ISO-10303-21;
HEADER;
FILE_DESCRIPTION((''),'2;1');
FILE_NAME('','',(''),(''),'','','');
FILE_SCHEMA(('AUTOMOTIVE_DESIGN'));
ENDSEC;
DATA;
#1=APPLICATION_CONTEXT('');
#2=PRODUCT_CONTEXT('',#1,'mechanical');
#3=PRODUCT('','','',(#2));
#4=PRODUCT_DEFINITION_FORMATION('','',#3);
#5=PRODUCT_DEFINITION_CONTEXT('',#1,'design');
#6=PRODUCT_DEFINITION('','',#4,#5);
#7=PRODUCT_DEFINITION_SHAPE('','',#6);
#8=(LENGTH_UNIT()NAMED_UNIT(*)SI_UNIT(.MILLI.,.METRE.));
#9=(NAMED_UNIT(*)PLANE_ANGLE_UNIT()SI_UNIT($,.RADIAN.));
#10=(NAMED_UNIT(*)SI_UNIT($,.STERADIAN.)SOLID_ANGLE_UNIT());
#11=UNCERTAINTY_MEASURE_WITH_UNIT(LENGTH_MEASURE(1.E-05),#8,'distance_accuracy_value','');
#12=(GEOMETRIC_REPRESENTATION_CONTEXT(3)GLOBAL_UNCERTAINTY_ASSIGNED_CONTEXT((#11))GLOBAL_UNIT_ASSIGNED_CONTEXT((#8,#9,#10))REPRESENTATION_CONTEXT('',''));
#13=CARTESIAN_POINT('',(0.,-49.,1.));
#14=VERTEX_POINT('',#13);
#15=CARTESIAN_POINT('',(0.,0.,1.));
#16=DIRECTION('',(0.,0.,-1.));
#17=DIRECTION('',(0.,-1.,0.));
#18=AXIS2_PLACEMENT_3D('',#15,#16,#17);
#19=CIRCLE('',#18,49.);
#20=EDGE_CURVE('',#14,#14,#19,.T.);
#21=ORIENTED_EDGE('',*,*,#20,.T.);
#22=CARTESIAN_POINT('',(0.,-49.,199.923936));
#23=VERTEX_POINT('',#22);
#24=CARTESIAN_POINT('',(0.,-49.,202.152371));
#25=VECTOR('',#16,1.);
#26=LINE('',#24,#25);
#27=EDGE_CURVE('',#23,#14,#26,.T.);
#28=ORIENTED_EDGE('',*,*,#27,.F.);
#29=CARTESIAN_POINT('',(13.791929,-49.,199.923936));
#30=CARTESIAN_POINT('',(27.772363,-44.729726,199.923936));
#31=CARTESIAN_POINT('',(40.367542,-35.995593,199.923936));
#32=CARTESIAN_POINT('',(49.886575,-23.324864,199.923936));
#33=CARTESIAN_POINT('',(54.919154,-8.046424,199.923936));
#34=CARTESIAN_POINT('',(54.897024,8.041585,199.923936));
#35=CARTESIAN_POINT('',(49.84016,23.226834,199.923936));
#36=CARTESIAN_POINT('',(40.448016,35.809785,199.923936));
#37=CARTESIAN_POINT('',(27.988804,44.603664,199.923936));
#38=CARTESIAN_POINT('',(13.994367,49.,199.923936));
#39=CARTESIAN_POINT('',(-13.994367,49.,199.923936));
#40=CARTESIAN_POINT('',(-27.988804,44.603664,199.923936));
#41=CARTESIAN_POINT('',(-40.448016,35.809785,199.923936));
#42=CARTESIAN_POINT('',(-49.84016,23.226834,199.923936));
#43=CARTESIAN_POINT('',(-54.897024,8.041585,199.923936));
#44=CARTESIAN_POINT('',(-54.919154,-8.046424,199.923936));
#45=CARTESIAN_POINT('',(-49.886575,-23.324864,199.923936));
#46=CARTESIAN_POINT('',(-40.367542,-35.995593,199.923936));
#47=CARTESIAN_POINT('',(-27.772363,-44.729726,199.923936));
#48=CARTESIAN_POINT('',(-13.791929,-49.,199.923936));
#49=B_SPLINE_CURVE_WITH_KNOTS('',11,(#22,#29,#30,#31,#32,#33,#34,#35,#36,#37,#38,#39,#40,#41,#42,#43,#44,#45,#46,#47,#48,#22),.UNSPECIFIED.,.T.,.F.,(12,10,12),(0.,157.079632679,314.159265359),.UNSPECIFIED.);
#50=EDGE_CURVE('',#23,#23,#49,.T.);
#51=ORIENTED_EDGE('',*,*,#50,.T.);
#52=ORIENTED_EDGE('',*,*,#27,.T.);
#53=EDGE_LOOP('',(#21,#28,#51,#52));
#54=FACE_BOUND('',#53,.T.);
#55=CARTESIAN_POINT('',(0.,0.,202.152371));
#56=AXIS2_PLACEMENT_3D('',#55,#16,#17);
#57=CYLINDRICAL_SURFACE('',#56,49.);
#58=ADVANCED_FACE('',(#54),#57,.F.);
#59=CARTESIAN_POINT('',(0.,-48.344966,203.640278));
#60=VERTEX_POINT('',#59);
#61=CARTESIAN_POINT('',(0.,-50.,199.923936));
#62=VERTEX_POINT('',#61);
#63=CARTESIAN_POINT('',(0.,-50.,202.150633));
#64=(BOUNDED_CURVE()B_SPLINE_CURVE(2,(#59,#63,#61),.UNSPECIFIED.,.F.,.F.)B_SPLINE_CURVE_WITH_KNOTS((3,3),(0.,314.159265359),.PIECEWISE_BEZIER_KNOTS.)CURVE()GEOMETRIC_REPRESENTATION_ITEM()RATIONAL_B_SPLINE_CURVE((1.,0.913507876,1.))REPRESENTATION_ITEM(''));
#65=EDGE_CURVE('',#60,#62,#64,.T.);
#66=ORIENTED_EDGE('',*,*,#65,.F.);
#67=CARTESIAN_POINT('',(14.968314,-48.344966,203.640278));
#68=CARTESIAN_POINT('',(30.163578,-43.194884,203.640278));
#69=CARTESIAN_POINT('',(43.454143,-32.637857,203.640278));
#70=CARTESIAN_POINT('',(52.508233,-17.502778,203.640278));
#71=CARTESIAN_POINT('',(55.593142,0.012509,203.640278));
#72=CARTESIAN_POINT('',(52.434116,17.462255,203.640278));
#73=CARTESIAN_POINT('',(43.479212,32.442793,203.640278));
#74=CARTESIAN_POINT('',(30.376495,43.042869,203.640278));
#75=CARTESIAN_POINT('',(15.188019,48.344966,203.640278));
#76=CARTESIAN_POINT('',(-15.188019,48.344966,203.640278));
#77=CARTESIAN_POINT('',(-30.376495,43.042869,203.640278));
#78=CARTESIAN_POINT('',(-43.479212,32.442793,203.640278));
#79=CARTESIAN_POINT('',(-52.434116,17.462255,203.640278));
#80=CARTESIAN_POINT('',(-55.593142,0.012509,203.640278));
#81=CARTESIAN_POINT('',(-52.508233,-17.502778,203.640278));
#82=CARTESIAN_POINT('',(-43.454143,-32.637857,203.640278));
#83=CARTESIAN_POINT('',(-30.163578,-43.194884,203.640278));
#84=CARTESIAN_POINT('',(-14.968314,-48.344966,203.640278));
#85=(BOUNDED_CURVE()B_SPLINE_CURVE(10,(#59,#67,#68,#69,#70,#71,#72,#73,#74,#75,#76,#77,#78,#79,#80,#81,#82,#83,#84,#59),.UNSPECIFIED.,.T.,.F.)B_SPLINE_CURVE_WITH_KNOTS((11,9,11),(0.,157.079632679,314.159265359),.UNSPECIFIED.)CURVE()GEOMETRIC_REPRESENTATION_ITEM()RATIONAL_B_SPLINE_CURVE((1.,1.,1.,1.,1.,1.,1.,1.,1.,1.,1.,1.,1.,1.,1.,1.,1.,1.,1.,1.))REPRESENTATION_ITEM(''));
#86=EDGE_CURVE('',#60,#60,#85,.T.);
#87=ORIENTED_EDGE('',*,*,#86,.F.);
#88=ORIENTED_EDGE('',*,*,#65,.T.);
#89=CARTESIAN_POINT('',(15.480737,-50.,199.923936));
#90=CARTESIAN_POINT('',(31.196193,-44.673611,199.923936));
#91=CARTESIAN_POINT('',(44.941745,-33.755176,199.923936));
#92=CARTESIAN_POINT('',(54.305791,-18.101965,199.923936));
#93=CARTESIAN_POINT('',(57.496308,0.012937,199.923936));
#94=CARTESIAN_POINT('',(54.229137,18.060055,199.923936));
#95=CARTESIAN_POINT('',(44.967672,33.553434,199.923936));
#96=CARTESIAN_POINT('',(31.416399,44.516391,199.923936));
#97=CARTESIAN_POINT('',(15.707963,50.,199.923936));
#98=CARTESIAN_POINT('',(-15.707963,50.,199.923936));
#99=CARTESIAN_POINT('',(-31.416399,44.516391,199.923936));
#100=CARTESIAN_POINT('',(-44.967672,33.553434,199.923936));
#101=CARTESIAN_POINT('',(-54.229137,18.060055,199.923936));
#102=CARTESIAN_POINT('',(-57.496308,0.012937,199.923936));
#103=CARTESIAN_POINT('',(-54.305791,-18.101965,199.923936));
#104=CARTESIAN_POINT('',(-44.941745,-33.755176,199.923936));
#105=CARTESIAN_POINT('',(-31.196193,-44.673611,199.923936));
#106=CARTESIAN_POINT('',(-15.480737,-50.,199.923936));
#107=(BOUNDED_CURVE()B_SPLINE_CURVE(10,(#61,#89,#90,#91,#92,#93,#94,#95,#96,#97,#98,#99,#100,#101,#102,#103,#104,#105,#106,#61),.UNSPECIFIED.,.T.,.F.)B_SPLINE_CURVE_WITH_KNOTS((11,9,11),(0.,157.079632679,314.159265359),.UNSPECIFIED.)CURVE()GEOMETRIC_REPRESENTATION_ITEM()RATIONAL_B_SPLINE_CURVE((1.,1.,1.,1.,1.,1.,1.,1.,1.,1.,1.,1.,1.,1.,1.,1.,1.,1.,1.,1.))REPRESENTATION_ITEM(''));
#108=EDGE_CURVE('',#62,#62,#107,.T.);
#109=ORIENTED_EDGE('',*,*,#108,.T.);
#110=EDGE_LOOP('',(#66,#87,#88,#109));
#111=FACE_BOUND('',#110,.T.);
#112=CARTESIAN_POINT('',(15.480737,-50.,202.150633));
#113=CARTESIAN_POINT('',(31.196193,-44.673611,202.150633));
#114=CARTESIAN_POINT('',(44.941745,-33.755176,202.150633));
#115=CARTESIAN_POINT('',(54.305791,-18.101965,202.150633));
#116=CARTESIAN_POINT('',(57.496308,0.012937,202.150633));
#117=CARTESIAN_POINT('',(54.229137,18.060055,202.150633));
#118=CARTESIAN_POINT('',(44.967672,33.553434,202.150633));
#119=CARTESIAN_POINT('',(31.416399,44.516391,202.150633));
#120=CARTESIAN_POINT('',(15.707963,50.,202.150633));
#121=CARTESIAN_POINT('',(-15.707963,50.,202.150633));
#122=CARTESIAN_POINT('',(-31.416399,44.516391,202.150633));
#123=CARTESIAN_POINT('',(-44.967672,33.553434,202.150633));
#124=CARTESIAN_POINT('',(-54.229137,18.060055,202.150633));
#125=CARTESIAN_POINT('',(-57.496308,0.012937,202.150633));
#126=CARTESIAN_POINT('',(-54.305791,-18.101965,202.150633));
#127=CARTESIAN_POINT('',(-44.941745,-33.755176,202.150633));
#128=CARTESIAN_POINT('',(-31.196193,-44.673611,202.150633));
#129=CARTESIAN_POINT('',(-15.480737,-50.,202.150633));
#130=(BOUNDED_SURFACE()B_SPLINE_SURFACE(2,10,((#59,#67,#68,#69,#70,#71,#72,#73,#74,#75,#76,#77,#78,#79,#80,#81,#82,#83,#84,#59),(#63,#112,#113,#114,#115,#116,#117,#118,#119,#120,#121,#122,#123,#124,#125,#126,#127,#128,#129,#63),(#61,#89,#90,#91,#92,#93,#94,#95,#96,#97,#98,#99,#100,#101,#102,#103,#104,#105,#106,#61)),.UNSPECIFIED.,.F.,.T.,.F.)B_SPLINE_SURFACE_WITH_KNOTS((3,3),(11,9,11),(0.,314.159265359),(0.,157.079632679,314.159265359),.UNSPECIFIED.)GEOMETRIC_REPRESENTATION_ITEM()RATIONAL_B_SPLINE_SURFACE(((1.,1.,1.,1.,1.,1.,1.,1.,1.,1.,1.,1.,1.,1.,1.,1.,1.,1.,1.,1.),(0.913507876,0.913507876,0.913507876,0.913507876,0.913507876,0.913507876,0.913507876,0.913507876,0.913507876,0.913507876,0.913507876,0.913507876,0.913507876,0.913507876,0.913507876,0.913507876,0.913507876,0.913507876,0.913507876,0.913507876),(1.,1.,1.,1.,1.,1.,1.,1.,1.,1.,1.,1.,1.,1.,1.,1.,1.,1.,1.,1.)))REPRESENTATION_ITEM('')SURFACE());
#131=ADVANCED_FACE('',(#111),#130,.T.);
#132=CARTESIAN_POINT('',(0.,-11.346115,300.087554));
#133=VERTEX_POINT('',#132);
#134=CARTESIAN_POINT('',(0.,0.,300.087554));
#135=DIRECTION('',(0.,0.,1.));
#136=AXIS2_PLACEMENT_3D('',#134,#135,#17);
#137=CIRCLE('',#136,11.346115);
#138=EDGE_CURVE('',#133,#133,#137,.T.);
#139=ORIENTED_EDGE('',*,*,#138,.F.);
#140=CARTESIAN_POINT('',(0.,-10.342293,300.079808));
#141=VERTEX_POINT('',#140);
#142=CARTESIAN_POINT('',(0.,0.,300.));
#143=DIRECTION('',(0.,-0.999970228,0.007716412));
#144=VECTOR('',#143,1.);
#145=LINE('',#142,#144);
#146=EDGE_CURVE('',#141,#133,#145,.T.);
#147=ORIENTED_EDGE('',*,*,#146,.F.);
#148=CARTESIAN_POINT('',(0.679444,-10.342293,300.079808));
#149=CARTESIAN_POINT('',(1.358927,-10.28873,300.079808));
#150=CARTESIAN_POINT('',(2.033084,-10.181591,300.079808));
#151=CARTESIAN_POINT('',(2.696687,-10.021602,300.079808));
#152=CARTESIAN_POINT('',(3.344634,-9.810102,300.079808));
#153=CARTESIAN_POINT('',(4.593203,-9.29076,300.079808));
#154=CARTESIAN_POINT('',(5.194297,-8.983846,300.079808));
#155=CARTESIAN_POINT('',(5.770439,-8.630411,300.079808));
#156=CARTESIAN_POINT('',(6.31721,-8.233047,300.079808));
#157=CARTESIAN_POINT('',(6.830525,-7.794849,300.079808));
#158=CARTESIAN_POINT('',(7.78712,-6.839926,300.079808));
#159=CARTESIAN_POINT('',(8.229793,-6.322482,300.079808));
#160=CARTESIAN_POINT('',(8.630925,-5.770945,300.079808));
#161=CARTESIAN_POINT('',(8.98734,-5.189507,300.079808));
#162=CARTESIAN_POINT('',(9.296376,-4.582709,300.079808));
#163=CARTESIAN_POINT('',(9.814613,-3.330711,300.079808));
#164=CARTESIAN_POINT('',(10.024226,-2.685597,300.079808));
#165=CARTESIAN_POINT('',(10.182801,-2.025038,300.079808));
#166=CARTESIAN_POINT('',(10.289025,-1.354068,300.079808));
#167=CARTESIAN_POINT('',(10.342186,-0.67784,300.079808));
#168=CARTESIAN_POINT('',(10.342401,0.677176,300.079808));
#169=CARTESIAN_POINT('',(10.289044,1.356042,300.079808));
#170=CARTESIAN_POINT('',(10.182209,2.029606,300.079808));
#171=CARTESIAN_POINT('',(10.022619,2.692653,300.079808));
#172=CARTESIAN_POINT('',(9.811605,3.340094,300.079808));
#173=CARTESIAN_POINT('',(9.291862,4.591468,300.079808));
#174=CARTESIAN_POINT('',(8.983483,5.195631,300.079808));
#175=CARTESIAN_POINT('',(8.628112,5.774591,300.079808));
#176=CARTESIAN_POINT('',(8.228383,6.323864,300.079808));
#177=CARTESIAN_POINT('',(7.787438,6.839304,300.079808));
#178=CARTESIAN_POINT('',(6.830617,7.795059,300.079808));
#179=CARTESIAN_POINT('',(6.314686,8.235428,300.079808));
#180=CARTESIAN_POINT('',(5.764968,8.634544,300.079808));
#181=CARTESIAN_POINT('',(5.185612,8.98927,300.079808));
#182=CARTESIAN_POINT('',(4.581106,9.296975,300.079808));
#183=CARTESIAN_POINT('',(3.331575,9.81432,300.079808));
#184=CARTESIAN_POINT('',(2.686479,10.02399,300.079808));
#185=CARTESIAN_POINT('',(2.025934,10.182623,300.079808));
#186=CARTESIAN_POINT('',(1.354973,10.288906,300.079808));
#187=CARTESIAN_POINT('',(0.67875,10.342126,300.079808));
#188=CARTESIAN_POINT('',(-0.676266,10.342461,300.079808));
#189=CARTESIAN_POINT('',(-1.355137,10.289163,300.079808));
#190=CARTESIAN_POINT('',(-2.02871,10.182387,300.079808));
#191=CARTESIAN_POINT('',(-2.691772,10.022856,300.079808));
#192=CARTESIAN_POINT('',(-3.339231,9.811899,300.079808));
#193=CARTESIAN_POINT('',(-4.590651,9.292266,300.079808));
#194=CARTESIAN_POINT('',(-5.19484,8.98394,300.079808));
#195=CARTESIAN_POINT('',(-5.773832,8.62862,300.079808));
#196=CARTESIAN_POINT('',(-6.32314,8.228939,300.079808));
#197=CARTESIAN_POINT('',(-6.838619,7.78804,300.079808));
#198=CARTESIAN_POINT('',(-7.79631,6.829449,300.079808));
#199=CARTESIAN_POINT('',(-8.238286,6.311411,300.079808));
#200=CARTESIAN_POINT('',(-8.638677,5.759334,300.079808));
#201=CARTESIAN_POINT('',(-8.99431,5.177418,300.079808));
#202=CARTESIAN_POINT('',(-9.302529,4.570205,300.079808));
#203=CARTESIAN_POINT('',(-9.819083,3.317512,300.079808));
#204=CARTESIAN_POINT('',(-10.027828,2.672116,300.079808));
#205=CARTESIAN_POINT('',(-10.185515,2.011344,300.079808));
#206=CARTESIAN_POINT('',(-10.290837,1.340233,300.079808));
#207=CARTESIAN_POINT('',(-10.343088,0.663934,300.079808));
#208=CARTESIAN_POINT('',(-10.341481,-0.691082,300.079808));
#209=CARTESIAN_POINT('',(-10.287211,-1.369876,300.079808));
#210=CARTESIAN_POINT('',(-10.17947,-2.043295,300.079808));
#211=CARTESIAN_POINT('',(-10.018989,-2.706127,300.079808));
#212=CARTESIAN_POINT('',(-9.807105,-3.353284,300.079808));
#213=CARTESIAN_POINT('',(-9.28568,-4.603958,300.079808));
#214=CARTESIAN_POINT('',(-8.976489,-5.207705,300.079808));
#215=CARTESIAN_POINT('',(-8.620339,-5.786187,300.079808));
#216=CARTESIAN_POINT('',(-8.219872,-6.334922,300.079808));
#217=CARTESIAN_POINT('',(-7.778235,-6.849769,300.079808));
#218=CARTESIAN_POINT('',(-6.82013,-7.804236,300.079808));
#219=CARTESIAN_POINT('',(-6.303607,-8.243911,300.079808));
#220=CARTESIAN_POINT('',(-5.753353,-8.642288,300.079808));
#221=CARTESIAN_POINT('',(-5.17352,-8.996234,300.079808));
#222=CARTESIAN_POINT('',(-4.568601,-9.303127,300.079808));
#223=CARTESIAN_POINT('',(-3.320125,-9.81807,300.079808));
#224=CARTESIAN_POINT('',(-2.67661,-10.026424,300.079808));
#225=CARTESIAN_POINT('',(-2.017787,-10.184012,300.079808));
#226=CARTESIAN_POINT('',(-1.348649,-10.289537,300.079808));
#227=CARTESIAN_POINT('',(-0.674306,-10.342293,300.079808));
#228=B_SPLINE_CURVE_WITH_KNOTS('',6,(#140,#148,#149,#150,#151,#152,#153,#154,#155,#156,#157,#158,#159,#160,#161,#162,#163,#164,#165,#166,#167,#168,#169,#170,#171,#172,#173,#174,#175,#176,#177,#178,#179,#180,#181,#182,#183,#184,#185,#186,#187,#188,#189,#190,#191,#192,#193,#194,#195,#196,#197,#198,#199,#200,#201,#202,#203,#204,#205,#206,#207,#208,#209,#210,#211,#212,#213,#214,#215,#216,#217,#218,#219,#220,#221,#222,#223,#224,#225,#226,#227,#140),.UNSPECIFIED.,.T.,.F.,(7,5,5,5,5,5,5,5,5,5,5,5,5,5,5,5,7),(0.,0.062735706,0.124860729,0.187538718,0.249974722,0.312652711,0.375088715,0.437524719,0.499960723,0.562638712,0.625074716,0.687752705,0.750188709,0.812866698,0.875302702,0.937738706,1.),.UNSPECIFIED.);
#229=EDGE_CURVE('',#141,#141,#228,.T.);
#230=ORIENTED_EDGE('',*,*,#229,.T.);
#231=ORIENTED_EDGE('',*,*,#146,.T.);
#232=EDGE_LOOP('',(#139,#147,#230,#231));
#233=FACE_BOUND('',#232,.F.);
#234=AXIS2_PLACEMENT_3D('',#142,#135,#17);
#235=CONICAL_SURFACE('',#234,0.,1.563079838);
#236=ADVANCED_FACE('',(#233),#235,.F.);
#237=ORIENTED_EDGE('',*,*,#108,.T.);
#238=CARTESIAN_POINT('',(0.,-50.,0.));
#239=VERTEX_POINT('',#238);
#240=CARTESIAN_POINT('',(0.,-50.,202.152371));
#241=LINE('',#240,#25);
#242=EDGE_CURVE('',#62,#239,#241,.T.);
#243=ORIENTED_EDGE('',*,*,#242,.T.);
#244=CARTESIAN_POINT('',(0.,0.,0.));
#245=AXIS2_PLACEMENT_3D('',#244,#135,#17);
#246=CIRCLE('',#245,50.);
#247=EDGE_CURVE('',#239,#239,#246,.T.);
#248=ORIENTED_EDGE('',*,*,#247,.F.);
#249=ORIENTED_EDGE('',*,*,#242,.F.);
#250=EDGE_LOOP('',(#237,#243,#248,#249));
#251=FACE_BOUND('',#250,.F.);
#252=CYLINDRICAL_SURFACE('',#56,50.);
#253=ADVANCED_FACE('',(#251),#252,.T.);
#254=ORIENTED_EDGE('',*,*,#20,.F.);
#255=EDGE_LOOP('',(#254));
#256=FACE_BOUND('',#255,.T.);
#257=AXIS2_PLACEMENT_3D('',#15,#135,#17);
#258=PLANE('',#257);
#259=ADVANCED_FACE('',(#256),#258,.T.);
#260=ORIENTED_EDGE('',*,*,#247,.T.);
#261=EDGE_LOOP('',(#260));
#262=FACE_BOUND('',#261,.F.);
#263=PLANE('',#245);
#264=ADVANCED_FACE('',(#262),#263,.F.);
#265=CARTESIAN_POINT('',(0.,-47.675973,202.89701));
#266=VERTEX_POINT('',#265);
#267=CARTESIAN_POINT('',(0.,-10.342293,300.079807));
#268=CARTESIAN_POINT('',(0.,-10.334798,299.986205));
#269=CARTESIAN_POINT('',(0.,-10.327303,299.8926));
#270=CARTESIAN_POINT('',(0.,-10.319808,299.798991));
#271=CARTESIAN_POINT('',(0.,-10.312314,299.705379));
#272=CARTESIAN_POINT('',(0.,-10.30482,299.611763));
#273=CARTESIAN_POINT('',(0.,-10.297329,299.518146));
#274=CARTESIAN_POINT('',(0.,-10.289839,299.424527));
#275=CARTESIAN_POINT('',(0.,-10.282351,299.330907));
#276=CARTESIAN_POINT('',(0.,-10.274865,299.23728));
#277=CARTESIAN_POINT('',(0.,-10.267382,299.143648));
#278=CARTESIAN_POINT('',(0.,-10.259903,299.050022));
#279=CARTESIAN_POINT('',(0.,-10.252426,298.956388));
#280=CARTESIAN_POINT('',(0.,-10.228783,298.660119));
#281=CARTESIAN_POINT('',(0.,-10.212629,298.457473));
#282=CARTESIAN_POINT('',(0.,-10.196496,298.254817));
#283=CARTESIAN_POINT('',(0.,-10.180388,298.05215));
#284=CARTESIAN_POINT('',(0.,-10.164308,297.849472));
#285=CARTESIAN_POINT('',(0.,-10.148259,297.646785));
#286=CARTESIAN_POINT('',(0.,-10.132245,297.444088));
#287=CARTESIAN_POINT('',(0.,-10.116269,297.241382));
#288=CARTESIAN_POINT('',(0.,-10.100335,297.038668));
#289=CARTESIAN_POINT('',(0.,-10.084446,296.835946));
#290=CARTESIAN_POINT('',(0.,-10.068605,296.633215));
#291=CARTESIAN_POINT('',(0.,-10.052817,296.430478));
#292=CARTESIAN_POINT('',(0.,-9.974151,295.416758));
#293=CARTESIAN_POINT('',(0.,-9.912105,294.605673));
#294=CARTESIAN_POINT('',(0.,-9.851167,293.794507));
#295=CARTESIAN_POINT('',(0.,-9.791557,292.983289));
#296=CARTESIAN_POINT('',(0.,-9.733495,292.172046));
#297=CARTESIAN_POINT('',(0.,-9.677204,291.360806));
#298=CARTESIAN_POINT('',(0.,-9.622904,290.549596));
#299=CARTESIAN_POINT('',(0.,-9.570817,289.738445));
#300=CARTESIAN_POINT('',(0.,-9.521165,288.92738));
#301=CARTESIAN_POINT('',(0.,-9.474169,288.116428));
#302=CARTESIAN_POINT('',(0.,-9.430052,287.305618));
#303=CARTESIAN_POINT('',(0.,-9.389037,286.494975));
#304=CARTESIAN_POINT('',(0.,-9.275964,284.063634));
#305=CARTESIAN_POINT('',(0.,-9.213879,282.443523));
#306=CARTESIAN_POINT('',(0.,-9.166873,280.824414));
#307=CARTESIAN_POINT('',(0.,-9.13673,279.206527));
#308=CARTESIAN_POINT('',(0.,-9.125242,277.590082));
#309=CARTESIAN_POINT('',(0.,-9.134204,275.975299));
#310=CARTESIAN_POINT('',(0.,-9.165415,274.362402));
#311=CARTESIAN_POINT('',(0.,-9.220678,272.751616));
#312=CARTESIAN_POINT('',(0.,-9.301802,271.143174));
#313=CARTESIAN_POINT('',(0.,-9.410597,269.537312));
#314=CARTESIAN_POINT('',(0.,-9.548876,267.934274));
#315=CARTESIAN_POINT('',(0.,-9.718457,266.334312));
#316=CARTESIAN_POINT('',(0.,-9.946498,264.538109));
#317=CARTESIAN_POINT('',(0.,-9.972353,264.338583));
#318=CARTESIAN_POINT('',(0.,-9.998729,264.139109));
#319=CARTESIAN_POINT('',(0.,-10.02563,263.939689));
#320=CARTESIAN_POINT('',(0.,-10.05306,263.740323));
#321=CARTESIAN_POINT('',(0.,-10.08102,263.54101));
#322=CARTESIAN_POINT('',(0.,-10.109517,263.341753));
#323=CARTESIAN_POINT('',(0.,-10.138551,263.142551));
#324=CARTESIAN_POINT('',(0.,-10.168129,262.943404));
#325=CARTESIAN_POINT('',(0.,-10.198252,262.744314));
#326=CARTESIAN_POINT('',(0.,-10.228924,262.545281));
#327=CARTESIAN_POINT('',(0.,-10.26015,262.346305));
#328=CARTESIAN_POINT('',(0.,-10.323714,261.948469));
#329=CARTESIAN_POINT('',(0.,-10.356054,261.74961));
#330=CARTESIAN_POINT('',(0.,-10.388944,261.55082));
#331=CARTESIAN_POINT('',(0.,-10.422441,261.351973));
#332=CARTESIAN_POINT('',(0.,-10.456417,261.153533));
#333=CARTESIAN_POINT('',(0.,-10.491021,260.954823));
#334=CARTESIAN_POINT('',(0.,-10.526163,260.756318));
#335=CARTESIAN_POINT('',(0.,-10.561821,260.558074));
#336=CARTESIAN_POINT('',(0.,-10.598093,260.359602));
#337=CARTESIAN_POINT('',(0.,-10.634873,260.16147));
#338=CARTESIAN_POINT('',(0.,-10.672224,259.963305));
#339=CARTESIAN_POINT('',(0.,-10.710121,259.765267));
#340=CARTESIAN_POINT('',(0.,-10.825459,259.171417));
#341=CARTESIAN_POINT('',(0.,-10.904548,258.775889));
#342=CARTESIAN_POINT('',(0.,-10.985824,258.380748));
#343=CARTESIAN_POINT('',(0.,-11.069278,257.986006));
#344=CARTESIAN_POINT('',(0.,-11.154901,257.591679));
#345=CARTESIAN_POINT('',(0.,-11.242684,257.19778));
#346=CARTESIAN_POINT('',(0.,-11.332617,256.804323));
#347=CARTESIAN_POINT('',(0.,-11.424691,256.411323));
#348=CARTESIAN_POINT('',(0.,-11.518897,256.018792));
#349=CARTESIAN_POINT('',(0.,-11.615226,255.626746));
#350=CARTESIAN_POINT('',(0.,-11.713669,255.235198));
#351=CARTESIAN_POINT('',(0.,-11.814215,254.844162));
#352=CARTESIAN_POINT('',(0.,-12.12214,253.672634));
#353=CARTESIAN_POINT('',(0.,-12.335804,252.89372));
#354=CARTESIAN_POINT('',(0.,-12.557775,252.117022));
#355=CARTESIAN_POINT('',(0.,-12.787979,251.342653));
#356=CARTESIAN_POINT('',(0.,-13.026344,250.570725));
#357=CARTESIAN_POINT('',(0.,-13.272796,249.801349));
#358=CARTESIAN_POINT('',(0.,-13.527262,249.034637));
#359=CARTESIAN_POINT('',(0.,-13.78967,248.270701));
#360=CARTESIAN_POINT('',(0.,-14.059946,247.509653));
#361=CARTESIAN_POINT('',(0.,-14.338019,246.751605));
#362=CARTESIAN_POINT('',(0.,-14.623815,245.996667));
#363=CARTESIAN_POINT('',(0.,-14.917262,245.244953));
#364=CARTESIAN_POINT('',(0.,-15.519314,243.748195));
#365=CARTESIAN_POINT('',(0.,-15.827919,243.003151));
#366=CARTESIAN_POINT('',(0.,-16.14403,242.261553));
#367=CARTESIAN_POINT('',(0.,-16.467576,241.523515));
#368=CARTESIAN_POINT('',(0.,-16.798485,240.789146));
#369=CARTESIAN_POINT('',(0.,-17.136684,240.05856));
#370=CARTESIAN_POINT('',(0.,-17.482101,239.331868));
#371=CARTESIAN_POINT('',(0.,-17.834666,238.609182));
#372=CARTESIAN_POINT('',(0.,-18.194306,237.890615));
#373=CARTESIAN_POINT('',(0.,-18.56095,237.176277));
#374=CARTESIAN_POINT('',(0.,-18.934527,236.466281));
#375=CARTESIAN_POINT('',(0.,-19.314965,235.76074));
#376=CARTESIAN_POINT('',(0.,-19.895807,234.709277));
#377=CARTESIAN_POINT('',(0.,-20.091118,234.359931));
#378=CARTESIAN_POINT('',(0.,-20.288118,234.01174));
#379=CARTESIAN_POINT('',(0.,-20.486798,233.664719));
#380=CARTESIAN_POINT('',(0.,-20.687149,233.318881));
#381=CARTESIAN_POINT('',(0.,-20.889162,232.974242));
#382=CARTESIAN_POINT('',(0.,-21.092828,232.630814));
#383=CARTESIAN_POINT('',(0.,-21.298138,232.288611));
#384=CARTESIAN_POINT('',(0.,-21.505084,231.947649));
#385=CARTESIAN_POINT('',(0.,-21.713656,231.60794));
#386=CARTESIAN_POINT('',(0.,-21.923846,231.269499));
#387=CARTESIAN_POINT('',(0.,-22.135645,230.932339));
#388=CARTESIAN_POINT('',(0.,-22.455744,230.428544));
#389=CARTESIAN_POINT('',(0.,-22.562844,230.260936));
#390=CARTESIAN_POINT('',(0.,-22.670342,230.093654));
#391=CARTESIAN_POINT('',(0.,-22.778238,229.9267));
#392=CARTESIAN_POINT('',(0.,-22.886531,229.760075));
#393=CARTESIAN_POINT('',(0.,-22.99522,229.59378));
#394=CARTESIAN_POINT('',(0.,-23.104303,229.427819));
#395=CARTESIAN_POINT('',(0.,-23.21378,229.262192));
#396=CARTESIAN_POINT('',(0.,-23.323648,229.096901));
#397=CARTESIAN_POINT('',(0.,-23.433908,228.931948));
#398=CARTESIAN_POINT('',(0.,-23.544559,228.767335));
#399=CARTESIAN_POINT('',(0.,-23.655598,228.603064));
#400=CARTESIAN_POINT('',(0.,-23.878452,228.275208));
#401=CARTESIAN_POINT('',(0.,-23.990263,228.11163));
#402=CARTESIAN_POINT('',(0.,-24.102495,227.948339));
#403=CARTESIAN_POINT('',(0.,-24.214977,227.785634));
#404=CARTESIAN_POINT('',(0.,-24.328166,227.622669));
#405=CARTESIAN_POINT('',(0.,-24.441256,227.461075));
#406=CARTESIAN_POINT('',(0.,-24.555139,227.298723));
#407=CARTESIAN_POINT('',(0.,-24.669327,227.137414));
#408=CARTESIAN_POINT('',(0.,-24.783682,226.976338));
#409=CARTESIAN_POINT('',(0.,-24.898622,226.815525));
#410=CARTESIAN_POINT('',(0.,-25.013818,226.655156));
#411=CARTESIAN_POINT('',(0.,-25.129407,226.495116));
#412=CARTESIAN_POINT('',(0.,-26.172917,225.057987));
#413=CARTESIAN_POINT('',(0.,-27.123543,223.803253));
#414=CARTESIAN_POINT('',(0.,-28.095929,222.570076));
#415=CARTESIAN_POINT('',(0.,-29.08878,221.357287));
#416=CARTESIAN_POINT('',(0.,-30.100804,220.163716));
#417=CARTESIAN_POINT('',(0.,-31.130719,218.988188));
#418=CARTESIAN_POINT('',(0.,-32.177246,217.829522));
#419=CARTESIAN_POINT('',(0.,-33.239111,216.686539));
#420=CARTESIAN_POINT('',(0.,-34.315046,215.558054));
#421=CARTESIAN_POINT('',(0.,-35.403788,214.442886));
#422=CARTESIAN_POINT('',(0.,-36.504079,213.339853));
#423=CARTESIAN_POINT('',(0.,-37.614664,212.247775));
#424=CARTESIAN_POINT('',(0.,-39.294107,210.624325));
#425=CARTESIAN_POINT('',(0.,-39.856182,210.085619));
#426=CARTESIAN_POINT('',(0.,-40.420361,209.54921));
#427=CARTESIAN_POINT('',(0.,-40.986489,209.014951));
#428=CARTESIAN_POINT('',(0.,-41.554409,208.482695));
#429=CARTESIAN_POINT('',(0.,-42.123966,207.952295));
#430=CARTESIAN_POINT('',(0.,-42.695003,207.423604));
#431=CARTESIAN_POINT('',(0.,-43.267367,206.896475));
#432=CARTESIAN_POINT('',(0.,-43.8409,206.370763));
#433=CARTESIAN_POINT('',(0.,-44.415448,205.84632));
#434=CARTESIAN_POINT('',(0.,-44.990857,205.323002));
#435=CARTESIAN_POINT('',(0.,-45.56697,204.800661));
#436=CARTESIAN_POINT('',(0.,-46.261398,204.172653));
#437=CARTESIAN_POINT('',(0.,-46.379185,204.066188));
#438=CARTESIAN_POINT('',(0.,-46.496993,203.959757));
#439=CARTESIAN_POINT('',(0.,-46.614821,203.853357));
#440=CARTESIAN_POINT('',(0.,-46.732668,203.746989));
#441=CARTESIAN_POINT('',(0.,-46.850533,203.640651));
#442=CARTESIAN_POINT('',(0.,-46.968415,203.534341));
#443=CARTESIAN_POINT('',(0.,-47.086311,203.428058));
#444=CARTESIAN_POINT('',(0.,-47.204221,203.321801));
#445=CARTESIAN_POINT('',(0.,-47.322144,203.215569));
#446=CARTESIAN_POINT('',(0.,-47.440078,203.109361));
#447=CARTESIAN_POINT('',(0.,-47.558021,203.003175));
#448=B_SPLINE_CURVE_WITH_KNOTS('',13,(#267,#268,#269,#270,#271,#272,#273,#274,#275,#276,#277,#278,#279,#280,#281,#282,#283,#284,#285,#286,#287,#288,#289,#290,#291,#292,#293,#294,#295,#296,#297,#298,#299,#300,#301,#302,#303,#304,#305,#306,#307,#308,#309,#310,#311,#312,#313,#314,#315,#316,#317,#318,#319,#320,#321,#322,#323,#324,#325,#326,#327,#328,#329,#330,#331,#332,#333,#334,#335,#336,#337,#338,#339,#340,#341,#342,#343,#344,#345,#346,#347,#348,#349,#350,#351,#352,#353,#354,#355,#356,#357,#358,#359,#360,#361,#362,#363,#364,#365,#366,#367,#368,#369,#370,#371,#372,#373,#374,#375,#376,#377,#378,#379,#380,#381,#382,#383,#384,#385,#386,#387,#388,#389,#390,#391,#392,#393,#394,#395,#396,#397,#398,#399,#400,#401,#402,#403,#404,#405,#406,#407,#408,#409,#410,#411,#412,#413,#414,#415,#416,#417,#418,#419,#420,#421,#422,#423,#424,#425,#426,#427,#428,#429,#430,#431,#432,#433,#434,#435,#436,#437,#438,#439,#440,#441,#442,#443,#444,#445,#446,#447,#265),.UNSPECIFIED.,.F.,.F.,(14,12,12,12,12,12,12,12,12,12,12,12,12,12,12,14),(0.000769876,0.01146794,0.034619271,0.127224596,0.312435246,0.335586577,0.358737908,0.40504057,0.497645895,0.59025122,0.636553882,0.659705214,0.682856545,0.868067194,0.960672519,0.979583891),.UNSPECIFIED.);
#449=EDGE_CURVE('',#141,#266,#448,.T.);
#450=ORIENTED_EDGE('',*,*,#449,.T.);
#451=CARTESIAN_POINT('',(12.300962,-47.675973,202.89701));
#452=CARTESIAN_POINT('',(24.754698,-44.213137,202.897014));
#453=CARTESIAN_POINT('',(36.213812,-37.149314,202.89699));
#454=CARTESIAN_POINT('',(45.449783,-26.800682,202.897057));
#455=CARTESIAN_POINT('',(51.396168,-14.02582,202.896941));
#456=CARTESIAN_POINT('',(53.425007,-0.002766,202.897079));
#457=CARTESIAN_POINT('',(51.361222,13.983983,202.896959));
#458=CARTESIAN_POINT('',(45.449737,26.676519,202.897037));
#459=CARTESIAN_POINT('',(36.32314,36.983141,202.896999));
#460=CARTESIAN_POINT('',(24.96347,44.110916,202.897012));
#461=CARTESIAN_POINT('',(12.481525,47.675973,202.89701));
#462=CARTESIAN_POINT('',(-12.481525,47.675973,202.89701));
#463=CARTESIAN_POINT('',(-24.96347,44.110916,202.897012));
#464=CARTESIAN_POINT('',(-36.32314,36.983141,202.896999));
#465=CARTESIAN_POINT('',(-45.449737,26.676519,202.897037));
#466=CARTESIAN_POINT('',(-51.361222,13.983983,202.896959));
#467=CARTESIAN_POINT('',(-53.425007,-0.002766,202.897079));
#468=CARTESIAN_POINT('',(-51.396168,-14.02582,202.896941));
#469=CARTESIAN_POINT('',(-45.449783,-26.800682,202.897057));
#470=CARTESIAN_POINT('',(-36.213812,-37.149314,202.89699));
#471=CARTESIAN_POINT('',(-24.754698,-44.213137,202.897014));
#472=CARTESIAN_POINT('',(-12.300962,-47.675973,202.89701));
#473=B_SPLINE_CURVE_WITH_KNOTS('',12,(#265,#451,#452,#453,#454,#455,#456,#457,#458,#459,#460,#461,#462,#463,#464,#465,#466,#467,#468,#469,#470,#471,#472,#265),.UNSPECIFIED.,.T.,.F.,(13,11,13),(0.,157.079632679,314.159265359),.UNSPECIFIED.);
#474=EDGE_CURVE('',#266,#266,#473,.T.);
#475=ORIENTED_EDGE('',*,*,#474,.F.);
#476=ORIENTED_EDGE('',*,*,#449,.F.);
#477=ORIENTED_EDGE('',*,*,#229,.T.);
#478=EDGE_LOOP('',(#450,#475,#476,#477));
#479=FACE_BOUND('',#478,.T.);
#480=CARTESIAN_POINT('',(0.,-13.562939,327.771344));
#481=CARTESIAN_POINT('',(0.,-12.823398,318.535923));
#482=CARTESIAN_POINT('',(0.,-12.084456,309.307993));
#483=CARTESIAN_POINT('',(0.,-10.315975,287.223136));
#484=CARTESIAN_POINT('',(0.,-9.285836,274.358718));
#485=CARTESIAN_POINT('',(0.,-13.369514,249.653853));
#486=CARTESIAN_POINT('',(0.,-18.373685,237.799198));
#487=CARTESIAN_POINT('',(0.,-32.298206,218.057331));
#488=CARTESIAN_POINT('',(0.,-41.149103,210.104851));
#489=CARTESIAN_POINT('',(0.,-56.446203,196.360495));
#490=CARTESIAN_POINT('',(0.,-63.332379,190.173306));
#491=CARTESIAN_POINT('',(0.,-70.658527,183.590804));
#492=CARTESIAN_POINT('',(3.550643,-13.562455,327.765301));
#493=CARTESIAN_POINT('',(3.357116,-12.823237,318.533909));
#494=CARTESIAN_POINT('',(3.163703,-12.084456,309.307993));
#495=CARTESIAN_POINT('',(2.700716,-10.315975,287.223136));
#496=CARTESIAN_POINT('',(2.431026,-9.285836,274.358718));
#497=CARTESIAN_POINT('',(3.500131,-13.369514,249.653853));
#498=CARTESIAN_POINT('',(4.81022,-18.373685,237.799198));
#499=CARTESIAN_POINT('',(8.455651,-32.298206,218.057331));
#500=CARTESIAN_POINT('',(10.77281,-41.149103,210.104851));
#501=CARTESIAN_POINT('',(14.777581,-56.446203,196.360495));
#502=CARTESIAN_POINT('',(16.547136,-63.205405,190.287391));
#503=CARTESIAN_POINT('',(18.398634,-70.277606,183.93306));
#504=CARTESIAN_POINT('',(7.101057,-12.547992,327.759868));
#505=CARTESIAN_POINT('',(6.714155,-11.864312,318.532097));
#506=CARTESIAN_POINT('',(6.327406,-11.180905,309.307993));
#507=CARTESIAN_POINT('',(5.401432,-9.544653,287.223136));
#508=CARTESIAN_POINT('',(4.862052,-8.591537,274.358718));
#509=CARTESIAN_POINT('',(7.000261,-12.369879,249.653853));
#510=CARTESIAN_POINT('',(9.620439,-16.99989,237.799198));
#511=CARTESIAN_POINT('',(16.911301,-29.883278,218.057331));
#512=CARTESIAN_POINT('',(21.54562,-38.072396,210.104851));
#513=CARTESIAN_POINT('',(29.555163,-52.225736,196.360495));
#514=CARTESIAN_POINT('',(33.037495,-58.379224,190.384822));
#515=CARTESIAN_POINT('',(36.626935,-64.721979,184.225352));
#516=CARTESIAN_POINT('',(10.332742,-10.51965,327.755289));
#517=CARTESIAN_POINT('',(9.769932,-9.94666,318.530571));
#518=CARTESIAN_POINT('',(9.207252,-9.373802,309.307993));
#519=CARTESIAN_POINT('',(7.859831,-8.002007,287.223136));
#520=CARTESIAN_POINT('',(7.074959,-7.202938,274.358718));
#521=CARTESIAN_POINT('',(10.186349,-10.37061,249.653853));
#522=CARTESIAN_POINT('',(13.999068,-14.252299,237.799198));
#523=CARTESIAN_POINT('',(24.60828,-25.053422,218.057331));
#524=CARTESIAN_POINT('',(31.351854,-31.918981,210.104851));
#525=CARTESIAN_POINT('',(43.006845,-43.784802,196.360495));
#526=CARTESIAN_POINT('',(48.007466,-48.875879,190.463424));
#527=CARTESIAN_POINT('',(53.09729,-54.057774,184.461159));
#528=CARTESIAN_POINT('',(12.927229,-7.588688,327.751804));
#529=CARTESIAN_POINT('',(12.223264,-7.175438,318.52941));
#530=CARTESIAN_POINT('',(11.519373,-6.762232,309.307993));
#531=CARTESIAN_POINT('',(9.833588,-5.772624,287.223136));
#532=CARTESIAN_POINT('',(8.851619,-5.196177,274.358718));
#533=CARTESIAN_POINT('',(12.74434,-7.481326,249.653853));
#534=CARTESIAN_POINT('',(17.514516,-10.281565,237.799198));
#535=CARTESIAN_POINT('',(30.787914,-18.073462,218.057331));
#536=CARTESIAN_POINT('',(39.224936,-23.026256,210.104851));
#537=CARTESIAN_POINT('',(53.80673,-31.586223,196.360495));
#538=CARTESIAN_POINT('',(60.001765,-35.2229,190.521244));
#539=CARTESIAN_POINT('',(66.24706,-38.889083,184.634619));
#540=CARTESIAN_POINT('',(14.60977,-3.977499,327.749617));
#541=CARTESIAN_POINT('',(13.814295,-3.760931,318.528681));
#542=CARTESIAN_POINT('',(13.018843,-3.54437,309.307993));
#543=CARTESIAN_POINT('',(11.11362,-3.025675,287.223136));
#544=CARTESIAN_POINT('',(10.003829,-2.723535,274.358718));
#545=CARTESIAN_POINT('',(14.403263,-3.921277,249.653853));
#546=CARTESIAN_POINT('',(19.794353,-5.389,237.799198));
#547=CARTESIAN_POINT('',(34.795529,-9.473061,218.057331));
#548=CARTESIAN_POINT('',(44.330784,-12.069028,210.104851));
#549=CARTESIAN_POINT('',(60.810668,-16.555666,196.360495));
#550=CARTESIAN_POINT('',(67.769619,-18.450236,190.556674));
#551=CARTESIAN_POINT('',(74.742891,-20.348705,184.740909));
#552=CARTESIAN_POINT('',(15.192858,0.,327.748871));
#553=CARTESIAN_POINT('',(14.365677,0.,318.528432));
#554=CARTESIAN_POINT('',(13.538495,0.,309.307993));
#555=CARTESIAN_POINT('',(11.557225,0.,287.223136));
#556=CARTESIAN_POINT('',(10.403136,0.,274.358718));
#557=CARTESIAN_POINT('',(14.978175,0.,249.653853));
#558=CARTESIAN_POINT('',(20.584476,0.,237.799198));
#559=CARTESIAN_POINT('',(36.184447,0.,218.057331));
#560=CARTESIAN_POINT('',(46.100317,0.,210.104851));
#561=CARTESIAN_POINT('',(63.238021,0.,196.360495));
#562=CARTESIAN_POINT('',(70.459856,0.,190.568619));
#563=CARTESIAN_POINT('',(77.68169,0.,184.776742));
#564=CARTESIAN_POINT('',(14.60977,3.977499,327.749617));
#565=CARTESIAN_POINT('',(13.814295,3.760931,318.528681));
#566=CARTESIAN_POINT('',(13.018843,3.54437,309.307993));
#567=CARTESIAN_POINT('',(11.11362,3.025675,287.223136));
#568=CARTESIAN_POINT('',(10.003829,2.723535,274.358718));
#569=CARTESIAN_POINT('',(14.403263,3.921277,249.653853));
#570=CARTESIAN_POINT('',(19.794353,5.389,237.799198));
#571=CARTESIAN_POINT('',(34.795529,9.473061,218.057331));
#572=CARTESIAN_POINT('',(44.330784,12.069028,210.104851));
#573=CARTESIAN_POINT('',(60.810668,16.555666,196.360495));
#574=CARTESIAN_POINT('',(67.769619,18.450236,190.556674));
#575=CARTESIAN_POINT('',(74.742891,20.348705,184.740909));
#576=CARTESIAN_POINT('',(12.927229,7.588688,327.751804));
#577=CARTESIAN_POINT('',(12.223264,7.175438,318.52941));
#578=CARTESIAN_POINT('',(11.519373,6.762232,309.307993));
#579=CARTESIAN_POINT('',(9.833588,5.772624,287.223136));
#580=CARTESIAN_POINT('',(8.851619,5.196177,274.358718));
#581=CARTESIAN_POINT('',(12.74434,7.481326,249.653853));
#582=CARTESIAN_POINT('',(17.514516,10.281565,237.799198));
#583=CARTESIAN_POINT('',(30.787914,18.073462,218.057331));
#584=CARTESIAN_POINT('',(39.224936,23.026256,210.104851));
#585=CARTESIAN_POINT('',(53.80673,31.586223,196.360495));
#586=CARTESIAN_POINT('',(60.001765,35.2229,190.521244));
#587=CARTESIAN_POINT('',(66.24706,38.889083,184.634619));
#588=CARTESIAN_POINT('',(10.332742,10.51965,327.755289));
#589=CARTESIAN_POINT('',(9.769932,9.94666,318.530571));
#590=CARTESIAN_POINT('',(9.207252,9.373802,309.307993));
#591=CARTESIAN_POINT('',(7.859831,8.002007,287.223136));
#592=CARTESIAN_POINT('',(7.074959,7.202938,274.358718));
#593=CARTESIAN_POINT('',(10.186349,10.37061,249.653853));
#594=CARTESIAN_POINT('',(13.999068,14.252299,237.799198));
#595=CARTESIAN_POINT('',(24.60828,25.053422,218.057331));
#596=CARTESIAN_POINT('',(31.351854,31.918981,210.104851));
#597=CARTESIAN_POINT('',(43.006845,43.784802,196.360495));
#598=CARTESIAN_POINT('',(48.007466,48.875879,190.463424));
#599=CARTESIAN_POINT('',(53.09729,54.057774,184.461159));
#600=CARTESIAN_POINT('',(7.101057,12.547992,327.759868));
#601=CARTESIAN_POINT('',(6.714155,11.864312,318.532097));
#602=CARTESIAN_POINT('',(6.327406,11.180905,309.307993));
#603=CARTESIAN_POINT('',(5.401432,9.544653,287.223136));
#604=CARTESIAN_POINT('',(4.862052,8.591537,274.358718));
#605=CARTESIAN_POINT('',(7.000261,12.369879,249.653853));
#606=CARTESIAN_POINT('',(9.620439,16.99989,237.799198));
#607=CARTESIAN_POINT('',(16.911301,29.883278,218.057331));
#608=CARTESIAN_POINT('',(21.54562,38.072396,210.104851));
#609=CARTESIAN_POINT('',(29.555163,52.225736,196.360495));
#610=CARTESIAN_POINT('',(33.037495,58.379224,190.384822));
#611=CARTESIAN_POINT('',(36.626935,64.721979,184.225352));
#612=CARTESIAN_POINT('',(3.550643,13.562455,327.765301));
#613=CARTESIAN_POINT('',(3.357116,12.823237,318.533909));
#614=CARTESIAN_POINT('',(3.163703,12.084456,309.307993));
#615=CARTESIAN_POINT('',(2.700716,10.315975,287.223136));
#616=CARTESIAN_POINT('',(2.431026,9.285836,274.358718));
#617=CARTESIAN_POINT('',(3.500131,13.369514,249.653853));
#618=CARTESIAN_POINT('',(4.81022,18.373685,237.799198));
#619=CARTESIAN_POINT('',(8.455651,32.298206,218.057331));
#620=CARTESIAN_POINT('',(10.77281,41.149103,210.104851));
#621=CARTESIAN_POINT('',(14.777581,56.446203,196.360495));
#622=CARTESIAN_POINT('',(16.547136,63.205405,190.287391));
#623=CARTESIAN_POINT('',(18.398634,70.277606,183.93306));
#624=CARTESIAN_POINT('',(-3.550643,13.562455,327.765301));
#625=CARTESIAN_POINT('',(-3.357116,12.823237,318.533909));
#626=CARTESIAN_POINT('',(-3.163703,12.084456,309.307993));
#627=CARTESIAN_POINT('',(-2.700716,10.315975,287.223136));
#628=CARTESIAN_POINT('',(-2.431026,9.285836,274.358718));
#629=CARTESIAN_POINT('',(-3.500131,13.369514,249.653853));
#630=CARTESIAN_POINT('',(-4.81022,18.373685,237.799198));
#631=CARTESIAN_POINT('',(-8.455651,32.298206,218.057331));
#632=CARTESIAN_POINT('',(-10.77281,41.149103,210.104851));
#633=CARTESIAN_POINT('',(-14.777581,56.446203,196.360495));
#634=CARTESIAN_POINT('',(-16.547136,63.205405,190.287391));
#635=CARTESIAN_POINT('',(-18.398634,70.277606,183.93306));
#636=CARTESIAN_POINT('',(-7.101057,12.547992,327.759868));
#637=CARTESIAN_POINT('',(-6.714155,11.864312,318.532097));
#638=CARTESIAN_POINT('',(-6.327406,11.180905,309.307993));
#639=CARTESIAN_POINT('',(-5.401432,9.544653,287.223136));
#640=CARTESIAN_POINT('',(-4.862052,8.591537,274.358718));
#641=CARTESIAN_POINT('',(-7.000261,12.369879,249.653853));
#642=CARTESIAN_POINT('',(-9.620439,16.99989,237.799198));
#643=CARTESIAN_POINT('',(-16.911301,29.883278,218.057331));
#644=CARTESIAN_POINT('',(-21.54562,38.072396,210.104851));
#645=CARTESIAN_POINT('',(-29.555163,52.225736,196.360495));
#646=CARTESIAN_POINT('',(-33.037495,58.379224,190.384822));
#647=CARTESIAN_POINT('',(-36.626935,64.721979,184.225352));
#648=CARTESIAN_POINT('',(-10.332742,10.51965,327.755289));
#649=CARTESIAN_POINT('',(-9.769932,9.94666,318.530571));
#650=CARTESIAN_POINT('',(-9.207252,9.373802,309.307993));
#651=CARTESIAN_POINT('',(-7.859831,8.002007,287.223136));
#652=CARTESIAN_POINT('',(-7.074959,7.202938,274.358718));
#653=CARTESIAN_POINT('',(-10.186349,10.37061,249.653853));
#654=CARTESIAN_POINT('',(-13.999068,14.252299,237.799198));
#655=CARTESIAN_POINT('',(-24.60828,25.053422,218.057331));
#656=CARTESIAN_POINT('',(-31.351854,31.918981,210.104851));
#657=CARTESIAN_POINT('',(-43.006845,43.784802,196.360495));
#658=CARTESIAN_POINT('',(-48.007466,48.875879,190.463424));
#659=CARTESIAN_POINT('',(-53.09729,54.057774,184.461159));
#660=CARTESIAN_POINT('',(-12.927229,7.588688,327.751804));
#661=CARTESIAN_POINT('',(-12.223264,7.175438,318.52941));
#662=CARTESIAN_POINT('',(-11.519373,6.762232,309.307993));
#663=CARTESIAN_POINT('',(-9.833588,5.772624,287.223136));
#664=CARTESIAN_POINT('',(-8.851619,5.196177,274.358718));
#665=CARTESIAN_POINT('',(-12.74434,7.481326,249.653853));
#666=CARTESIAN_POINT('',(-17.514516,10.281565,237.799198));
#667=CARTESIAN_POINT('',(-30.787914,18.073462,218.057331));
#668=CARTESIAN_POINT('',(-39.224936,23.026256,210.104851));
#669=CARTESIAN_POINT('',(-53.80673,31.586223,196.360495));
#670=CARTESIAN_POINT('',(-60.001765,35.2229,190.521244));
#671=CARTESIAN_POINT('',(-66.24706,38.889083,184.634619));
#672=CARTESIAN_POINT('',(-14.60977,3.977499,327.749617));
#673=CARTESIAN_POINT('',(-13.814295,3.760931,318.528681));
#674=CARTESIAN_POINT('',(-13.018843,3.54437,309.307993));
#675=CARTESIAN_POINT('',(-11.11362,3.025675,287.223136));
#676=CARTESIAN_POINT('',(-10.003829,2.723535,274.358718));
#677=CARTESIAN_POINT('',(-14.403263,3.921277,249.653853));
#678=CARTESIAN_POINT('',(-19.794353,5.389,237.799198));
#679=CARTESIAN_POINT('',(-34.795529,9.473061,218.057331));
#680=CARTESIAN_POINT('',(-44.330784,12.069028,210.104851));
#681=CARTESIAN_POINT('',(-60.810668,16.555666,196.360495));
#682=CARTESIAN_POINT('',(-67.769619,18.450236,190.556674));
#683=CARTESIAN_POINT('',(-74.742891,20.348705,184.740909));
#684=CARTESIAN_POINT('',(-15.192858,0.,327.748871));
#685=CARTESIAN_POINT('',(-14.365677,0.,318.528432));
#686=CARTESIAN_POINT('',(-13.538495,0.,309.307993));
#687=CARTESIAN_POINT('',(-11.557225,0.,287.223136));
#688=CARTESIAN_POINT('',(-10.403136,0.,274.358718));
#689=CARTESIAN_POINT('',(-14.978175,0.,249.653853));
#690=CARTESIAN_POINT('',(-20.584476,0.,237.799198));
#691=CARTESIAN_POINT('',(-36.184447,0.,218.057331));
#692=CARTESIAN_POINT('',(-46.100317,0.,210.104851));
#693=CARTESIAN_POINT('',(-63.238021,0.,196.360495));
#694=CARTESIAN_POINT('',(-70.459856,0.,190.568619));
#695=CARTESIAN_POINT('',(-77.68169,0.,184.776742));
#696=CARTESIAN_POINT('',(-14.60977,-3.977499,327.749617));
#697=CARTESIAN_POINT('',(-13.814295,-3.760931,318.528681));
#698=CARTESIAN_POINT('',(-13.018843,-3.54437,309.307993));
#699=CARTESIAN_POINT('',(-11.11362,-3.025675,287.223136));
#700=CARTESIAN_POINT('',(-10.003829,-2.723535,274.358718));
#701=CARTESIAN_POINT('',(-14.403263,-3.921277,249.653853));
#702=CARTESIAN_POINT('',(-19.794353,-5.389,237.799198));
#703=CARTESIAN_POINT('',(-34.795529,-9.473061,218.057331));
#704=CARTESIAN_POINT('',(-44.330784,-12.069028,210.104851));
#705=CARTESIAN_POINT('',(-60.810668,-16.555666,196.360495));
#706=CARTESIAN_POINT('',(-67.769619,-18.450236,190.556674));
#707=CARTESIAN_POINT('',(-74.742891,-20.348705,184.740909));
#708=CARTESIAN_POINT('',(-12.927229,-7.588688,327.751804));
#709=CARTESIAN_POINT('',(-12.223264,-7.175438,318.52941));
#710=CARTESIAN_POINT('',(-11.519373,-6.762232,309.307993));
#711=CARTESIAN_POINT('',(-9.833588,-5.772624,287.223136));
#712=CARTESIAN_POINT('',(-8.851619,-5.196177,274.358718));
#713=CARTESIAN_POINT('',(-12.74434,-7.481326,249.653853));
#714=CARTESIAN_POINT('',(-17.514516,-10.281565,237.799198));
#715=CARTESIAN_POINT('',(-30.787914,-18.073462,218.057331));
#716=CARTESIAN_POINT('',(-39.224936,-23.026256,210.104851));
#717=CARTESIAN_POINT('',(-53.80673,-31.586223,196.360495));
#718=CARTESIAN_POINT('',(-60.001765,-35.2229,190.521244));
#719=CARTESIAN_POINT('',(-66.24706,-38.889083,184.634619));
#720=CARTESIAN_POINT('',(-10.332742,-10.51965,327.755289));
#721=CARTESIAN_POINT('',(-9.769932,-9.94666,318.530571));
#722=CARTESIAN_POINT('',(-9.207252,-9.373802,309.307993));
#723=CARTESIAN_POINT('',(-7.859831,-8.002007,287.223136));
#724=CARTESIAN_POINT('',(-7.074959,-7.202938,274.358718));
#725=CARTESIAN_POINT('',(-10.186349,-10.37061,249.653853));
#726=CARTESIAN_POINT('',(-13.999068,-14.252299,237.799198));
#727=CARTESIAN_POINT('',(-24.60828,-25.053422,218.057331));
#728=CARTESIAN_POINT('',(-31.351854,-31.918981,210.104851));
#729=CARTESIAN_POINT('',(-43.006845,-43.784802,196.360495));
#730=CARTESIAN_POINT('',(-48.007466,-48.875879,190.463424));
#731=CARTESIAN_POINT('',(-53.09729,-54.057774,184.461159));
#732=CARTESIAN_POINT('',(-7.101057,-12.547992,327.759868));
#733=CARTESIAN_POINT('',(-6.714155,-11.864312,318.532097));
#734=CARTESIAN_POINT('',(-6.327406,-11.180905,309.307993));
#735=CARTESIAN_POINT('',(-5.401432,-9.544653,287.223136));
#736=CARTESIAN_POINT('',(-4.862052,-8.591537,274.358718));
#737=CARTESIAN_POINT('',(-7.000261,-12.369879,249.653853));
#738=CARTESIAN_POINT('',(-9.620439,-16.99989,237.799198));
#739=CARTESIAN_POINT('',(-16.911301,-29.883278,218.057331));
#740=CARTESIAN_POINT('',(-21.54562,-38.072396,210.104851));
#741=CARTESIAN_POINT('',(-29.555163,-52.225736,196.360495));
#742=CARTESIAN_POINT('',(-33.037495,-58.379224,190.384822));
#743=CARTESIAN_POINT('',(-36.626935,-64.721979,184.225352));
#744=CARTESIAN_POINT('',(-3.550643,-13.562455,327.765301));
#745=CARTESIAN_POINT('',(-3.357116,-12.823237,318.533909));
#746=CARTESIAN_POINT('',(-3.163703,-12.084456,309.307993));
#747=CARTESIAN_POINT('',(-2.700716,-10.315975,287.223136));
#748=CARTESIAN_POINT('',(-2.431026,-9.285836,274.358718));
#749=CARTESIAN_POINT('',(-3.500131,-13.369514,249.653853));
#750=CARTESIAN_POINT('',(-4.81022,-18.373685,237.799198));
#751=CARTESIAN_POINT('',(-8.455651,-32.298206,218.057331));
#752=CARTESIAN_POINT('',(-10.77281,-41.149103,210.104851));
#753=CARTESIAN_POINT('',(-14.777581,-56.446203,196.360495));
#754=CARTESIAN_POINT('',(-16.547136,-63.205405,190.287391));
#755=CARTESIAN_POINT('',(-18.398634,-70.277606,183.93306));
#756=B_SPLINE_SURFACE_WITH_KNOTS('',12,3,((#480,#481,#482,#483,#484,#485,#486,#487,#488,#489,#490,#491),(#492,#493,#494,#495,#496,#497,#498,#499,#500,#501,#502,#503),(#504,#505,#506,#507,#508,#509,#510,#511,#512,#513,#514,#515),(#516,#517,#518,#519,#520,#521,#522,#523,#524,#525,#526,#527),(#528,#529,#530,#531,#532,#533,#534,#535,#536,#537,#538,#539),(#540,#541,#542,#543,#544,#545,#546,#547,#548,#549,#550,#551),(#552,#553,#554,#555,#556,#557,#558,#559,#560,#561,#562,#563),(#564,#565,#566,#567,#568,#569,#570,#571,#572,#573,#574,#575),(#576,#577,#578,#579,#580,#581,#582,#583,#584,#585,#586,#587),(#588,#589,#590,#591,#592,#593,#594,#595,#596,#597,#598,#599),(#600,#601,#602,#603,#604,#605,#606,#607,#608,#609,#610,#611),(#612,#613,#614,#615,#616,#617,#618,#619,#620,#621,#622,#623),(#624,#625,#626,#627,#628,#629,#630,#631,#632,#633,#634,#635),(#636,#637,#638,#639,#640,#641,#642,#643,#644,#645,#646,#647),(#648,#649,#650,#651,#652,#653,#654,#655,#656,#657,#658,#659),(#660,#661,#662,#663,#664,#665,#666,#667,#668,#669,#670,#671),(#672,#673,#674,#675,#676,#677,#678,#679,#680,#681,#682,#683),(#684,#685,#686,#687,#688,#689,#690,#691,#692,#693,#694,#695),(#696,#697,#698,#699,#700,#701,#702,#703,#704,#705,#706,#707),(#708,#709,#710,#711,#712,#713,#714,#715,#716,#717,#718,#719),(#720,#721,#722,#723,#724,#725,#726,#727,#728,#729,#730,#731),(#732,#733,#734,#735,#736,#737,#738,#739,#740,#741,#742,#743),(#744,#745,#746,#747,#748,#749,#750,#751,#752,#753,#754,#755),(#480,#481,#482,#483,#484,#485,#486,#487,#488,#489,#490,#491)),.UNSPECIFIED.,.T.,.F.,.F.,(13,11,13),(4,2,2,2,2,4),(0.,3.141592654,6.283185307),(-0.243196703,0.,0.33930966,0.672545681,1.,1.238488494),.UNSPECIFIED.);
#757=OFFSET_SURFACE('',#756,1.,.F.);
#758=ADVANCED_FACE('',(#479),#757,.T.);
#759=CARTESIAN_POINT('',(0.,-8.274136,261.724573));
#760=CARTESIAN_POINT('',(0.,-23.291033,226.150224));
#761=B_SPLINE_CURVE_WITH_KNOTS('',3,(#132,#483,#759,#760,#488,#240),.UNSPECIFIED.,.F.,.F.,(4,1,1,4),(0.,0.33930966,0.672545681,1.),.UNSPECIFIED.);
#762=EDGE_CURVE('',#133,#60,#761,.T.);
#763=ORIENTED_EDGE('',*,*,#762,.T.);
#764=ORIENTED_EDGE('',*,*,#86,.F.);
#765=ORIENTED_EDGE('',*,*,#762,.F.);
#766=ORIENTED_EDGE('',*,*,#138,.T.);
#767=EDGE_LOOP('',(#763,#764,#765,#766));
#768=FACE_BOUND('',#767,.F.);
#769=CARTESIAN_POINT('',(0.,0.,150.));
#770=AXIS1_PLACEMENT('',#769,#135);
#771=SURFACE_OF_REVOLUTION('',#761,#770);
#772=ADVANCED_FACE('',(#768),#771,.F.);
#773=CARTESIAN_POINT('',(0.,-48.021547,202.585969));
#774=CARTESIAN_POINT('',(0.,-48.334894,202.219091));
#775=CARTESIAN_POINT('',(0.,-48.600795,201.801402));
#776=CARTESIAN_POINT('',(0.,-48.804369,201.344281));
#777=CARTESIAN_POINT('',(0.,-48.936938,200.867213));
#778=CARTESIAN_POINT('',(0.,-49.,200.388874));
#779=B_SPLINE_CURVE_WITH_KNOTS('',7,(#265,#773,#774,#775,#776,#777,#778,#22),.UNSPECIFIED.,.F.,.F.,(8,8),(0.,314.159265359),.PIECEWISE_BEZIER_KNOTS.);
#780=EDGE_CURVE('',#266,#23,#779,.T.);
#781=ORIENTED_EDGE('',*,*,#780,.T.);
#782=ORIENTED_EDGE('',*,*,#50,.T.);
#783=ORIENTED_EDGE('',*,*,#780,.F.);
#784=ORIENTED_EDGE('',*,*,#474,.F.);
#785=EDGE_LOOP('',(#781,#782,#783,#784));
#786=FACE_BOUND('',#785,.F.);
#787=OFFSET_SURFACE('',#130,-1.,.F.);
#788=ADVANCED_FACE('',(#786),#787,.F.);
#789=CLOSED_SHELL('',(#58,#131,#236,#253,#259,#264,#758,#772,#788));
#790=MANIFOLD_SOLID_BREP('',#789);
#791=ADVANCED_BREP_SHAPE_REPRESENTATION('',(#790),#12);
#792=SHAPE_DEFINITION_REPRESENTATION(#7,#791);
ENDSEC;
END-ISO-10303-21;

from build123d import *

# Parameters (mm, degrees)
F2_R = 5
F3_T = -1


with BuildPart() as f1:
    # F0 (on Right) → F1 (revolve)
    with BuildSketch(Plane.YZ):
        with BuildLine():
            Line((-50, 0), (0, 0))
            Line((0, 0), (0, 300))
            Line((0, 300), (-11.3461146221, 300.0875539066))
            add(Edge.make_bspline(
                [(-11.3461146221, 300.0875539066), (-10.3159753105, 287.2231359493), (-8.274136168, 261.7245729538), (-23.2910328816, 226.1502237174), (-41.1491029613, 210.1048511491), (-50, 202.1523714066)],
                knots=[0, 0, 0, 0, 0.3393096599, 0.6725456811, 1, 1, 1, 1], degree=3))
            Line((-50, 202.1523714066), (-50, 0))
        make_face()
    revolve(axis=Axis((0, 0, 150), (0, 0, 1)))

    # F2
    f2_edges = [f1.edges().sort_by_distance(p)[0] for p in [
        (0, 50, 202.152371),
    ]]
    fillet(f2_edges, radius=F2_R)

    # F3
    f3_openings = [f1.faces().sort_by_distance(p)[0] for p in [
        (0, 5.673057, 300.043777),
    ]]
    offset(amount=F3_T, openings=f3_openings)


solid = f1.part
